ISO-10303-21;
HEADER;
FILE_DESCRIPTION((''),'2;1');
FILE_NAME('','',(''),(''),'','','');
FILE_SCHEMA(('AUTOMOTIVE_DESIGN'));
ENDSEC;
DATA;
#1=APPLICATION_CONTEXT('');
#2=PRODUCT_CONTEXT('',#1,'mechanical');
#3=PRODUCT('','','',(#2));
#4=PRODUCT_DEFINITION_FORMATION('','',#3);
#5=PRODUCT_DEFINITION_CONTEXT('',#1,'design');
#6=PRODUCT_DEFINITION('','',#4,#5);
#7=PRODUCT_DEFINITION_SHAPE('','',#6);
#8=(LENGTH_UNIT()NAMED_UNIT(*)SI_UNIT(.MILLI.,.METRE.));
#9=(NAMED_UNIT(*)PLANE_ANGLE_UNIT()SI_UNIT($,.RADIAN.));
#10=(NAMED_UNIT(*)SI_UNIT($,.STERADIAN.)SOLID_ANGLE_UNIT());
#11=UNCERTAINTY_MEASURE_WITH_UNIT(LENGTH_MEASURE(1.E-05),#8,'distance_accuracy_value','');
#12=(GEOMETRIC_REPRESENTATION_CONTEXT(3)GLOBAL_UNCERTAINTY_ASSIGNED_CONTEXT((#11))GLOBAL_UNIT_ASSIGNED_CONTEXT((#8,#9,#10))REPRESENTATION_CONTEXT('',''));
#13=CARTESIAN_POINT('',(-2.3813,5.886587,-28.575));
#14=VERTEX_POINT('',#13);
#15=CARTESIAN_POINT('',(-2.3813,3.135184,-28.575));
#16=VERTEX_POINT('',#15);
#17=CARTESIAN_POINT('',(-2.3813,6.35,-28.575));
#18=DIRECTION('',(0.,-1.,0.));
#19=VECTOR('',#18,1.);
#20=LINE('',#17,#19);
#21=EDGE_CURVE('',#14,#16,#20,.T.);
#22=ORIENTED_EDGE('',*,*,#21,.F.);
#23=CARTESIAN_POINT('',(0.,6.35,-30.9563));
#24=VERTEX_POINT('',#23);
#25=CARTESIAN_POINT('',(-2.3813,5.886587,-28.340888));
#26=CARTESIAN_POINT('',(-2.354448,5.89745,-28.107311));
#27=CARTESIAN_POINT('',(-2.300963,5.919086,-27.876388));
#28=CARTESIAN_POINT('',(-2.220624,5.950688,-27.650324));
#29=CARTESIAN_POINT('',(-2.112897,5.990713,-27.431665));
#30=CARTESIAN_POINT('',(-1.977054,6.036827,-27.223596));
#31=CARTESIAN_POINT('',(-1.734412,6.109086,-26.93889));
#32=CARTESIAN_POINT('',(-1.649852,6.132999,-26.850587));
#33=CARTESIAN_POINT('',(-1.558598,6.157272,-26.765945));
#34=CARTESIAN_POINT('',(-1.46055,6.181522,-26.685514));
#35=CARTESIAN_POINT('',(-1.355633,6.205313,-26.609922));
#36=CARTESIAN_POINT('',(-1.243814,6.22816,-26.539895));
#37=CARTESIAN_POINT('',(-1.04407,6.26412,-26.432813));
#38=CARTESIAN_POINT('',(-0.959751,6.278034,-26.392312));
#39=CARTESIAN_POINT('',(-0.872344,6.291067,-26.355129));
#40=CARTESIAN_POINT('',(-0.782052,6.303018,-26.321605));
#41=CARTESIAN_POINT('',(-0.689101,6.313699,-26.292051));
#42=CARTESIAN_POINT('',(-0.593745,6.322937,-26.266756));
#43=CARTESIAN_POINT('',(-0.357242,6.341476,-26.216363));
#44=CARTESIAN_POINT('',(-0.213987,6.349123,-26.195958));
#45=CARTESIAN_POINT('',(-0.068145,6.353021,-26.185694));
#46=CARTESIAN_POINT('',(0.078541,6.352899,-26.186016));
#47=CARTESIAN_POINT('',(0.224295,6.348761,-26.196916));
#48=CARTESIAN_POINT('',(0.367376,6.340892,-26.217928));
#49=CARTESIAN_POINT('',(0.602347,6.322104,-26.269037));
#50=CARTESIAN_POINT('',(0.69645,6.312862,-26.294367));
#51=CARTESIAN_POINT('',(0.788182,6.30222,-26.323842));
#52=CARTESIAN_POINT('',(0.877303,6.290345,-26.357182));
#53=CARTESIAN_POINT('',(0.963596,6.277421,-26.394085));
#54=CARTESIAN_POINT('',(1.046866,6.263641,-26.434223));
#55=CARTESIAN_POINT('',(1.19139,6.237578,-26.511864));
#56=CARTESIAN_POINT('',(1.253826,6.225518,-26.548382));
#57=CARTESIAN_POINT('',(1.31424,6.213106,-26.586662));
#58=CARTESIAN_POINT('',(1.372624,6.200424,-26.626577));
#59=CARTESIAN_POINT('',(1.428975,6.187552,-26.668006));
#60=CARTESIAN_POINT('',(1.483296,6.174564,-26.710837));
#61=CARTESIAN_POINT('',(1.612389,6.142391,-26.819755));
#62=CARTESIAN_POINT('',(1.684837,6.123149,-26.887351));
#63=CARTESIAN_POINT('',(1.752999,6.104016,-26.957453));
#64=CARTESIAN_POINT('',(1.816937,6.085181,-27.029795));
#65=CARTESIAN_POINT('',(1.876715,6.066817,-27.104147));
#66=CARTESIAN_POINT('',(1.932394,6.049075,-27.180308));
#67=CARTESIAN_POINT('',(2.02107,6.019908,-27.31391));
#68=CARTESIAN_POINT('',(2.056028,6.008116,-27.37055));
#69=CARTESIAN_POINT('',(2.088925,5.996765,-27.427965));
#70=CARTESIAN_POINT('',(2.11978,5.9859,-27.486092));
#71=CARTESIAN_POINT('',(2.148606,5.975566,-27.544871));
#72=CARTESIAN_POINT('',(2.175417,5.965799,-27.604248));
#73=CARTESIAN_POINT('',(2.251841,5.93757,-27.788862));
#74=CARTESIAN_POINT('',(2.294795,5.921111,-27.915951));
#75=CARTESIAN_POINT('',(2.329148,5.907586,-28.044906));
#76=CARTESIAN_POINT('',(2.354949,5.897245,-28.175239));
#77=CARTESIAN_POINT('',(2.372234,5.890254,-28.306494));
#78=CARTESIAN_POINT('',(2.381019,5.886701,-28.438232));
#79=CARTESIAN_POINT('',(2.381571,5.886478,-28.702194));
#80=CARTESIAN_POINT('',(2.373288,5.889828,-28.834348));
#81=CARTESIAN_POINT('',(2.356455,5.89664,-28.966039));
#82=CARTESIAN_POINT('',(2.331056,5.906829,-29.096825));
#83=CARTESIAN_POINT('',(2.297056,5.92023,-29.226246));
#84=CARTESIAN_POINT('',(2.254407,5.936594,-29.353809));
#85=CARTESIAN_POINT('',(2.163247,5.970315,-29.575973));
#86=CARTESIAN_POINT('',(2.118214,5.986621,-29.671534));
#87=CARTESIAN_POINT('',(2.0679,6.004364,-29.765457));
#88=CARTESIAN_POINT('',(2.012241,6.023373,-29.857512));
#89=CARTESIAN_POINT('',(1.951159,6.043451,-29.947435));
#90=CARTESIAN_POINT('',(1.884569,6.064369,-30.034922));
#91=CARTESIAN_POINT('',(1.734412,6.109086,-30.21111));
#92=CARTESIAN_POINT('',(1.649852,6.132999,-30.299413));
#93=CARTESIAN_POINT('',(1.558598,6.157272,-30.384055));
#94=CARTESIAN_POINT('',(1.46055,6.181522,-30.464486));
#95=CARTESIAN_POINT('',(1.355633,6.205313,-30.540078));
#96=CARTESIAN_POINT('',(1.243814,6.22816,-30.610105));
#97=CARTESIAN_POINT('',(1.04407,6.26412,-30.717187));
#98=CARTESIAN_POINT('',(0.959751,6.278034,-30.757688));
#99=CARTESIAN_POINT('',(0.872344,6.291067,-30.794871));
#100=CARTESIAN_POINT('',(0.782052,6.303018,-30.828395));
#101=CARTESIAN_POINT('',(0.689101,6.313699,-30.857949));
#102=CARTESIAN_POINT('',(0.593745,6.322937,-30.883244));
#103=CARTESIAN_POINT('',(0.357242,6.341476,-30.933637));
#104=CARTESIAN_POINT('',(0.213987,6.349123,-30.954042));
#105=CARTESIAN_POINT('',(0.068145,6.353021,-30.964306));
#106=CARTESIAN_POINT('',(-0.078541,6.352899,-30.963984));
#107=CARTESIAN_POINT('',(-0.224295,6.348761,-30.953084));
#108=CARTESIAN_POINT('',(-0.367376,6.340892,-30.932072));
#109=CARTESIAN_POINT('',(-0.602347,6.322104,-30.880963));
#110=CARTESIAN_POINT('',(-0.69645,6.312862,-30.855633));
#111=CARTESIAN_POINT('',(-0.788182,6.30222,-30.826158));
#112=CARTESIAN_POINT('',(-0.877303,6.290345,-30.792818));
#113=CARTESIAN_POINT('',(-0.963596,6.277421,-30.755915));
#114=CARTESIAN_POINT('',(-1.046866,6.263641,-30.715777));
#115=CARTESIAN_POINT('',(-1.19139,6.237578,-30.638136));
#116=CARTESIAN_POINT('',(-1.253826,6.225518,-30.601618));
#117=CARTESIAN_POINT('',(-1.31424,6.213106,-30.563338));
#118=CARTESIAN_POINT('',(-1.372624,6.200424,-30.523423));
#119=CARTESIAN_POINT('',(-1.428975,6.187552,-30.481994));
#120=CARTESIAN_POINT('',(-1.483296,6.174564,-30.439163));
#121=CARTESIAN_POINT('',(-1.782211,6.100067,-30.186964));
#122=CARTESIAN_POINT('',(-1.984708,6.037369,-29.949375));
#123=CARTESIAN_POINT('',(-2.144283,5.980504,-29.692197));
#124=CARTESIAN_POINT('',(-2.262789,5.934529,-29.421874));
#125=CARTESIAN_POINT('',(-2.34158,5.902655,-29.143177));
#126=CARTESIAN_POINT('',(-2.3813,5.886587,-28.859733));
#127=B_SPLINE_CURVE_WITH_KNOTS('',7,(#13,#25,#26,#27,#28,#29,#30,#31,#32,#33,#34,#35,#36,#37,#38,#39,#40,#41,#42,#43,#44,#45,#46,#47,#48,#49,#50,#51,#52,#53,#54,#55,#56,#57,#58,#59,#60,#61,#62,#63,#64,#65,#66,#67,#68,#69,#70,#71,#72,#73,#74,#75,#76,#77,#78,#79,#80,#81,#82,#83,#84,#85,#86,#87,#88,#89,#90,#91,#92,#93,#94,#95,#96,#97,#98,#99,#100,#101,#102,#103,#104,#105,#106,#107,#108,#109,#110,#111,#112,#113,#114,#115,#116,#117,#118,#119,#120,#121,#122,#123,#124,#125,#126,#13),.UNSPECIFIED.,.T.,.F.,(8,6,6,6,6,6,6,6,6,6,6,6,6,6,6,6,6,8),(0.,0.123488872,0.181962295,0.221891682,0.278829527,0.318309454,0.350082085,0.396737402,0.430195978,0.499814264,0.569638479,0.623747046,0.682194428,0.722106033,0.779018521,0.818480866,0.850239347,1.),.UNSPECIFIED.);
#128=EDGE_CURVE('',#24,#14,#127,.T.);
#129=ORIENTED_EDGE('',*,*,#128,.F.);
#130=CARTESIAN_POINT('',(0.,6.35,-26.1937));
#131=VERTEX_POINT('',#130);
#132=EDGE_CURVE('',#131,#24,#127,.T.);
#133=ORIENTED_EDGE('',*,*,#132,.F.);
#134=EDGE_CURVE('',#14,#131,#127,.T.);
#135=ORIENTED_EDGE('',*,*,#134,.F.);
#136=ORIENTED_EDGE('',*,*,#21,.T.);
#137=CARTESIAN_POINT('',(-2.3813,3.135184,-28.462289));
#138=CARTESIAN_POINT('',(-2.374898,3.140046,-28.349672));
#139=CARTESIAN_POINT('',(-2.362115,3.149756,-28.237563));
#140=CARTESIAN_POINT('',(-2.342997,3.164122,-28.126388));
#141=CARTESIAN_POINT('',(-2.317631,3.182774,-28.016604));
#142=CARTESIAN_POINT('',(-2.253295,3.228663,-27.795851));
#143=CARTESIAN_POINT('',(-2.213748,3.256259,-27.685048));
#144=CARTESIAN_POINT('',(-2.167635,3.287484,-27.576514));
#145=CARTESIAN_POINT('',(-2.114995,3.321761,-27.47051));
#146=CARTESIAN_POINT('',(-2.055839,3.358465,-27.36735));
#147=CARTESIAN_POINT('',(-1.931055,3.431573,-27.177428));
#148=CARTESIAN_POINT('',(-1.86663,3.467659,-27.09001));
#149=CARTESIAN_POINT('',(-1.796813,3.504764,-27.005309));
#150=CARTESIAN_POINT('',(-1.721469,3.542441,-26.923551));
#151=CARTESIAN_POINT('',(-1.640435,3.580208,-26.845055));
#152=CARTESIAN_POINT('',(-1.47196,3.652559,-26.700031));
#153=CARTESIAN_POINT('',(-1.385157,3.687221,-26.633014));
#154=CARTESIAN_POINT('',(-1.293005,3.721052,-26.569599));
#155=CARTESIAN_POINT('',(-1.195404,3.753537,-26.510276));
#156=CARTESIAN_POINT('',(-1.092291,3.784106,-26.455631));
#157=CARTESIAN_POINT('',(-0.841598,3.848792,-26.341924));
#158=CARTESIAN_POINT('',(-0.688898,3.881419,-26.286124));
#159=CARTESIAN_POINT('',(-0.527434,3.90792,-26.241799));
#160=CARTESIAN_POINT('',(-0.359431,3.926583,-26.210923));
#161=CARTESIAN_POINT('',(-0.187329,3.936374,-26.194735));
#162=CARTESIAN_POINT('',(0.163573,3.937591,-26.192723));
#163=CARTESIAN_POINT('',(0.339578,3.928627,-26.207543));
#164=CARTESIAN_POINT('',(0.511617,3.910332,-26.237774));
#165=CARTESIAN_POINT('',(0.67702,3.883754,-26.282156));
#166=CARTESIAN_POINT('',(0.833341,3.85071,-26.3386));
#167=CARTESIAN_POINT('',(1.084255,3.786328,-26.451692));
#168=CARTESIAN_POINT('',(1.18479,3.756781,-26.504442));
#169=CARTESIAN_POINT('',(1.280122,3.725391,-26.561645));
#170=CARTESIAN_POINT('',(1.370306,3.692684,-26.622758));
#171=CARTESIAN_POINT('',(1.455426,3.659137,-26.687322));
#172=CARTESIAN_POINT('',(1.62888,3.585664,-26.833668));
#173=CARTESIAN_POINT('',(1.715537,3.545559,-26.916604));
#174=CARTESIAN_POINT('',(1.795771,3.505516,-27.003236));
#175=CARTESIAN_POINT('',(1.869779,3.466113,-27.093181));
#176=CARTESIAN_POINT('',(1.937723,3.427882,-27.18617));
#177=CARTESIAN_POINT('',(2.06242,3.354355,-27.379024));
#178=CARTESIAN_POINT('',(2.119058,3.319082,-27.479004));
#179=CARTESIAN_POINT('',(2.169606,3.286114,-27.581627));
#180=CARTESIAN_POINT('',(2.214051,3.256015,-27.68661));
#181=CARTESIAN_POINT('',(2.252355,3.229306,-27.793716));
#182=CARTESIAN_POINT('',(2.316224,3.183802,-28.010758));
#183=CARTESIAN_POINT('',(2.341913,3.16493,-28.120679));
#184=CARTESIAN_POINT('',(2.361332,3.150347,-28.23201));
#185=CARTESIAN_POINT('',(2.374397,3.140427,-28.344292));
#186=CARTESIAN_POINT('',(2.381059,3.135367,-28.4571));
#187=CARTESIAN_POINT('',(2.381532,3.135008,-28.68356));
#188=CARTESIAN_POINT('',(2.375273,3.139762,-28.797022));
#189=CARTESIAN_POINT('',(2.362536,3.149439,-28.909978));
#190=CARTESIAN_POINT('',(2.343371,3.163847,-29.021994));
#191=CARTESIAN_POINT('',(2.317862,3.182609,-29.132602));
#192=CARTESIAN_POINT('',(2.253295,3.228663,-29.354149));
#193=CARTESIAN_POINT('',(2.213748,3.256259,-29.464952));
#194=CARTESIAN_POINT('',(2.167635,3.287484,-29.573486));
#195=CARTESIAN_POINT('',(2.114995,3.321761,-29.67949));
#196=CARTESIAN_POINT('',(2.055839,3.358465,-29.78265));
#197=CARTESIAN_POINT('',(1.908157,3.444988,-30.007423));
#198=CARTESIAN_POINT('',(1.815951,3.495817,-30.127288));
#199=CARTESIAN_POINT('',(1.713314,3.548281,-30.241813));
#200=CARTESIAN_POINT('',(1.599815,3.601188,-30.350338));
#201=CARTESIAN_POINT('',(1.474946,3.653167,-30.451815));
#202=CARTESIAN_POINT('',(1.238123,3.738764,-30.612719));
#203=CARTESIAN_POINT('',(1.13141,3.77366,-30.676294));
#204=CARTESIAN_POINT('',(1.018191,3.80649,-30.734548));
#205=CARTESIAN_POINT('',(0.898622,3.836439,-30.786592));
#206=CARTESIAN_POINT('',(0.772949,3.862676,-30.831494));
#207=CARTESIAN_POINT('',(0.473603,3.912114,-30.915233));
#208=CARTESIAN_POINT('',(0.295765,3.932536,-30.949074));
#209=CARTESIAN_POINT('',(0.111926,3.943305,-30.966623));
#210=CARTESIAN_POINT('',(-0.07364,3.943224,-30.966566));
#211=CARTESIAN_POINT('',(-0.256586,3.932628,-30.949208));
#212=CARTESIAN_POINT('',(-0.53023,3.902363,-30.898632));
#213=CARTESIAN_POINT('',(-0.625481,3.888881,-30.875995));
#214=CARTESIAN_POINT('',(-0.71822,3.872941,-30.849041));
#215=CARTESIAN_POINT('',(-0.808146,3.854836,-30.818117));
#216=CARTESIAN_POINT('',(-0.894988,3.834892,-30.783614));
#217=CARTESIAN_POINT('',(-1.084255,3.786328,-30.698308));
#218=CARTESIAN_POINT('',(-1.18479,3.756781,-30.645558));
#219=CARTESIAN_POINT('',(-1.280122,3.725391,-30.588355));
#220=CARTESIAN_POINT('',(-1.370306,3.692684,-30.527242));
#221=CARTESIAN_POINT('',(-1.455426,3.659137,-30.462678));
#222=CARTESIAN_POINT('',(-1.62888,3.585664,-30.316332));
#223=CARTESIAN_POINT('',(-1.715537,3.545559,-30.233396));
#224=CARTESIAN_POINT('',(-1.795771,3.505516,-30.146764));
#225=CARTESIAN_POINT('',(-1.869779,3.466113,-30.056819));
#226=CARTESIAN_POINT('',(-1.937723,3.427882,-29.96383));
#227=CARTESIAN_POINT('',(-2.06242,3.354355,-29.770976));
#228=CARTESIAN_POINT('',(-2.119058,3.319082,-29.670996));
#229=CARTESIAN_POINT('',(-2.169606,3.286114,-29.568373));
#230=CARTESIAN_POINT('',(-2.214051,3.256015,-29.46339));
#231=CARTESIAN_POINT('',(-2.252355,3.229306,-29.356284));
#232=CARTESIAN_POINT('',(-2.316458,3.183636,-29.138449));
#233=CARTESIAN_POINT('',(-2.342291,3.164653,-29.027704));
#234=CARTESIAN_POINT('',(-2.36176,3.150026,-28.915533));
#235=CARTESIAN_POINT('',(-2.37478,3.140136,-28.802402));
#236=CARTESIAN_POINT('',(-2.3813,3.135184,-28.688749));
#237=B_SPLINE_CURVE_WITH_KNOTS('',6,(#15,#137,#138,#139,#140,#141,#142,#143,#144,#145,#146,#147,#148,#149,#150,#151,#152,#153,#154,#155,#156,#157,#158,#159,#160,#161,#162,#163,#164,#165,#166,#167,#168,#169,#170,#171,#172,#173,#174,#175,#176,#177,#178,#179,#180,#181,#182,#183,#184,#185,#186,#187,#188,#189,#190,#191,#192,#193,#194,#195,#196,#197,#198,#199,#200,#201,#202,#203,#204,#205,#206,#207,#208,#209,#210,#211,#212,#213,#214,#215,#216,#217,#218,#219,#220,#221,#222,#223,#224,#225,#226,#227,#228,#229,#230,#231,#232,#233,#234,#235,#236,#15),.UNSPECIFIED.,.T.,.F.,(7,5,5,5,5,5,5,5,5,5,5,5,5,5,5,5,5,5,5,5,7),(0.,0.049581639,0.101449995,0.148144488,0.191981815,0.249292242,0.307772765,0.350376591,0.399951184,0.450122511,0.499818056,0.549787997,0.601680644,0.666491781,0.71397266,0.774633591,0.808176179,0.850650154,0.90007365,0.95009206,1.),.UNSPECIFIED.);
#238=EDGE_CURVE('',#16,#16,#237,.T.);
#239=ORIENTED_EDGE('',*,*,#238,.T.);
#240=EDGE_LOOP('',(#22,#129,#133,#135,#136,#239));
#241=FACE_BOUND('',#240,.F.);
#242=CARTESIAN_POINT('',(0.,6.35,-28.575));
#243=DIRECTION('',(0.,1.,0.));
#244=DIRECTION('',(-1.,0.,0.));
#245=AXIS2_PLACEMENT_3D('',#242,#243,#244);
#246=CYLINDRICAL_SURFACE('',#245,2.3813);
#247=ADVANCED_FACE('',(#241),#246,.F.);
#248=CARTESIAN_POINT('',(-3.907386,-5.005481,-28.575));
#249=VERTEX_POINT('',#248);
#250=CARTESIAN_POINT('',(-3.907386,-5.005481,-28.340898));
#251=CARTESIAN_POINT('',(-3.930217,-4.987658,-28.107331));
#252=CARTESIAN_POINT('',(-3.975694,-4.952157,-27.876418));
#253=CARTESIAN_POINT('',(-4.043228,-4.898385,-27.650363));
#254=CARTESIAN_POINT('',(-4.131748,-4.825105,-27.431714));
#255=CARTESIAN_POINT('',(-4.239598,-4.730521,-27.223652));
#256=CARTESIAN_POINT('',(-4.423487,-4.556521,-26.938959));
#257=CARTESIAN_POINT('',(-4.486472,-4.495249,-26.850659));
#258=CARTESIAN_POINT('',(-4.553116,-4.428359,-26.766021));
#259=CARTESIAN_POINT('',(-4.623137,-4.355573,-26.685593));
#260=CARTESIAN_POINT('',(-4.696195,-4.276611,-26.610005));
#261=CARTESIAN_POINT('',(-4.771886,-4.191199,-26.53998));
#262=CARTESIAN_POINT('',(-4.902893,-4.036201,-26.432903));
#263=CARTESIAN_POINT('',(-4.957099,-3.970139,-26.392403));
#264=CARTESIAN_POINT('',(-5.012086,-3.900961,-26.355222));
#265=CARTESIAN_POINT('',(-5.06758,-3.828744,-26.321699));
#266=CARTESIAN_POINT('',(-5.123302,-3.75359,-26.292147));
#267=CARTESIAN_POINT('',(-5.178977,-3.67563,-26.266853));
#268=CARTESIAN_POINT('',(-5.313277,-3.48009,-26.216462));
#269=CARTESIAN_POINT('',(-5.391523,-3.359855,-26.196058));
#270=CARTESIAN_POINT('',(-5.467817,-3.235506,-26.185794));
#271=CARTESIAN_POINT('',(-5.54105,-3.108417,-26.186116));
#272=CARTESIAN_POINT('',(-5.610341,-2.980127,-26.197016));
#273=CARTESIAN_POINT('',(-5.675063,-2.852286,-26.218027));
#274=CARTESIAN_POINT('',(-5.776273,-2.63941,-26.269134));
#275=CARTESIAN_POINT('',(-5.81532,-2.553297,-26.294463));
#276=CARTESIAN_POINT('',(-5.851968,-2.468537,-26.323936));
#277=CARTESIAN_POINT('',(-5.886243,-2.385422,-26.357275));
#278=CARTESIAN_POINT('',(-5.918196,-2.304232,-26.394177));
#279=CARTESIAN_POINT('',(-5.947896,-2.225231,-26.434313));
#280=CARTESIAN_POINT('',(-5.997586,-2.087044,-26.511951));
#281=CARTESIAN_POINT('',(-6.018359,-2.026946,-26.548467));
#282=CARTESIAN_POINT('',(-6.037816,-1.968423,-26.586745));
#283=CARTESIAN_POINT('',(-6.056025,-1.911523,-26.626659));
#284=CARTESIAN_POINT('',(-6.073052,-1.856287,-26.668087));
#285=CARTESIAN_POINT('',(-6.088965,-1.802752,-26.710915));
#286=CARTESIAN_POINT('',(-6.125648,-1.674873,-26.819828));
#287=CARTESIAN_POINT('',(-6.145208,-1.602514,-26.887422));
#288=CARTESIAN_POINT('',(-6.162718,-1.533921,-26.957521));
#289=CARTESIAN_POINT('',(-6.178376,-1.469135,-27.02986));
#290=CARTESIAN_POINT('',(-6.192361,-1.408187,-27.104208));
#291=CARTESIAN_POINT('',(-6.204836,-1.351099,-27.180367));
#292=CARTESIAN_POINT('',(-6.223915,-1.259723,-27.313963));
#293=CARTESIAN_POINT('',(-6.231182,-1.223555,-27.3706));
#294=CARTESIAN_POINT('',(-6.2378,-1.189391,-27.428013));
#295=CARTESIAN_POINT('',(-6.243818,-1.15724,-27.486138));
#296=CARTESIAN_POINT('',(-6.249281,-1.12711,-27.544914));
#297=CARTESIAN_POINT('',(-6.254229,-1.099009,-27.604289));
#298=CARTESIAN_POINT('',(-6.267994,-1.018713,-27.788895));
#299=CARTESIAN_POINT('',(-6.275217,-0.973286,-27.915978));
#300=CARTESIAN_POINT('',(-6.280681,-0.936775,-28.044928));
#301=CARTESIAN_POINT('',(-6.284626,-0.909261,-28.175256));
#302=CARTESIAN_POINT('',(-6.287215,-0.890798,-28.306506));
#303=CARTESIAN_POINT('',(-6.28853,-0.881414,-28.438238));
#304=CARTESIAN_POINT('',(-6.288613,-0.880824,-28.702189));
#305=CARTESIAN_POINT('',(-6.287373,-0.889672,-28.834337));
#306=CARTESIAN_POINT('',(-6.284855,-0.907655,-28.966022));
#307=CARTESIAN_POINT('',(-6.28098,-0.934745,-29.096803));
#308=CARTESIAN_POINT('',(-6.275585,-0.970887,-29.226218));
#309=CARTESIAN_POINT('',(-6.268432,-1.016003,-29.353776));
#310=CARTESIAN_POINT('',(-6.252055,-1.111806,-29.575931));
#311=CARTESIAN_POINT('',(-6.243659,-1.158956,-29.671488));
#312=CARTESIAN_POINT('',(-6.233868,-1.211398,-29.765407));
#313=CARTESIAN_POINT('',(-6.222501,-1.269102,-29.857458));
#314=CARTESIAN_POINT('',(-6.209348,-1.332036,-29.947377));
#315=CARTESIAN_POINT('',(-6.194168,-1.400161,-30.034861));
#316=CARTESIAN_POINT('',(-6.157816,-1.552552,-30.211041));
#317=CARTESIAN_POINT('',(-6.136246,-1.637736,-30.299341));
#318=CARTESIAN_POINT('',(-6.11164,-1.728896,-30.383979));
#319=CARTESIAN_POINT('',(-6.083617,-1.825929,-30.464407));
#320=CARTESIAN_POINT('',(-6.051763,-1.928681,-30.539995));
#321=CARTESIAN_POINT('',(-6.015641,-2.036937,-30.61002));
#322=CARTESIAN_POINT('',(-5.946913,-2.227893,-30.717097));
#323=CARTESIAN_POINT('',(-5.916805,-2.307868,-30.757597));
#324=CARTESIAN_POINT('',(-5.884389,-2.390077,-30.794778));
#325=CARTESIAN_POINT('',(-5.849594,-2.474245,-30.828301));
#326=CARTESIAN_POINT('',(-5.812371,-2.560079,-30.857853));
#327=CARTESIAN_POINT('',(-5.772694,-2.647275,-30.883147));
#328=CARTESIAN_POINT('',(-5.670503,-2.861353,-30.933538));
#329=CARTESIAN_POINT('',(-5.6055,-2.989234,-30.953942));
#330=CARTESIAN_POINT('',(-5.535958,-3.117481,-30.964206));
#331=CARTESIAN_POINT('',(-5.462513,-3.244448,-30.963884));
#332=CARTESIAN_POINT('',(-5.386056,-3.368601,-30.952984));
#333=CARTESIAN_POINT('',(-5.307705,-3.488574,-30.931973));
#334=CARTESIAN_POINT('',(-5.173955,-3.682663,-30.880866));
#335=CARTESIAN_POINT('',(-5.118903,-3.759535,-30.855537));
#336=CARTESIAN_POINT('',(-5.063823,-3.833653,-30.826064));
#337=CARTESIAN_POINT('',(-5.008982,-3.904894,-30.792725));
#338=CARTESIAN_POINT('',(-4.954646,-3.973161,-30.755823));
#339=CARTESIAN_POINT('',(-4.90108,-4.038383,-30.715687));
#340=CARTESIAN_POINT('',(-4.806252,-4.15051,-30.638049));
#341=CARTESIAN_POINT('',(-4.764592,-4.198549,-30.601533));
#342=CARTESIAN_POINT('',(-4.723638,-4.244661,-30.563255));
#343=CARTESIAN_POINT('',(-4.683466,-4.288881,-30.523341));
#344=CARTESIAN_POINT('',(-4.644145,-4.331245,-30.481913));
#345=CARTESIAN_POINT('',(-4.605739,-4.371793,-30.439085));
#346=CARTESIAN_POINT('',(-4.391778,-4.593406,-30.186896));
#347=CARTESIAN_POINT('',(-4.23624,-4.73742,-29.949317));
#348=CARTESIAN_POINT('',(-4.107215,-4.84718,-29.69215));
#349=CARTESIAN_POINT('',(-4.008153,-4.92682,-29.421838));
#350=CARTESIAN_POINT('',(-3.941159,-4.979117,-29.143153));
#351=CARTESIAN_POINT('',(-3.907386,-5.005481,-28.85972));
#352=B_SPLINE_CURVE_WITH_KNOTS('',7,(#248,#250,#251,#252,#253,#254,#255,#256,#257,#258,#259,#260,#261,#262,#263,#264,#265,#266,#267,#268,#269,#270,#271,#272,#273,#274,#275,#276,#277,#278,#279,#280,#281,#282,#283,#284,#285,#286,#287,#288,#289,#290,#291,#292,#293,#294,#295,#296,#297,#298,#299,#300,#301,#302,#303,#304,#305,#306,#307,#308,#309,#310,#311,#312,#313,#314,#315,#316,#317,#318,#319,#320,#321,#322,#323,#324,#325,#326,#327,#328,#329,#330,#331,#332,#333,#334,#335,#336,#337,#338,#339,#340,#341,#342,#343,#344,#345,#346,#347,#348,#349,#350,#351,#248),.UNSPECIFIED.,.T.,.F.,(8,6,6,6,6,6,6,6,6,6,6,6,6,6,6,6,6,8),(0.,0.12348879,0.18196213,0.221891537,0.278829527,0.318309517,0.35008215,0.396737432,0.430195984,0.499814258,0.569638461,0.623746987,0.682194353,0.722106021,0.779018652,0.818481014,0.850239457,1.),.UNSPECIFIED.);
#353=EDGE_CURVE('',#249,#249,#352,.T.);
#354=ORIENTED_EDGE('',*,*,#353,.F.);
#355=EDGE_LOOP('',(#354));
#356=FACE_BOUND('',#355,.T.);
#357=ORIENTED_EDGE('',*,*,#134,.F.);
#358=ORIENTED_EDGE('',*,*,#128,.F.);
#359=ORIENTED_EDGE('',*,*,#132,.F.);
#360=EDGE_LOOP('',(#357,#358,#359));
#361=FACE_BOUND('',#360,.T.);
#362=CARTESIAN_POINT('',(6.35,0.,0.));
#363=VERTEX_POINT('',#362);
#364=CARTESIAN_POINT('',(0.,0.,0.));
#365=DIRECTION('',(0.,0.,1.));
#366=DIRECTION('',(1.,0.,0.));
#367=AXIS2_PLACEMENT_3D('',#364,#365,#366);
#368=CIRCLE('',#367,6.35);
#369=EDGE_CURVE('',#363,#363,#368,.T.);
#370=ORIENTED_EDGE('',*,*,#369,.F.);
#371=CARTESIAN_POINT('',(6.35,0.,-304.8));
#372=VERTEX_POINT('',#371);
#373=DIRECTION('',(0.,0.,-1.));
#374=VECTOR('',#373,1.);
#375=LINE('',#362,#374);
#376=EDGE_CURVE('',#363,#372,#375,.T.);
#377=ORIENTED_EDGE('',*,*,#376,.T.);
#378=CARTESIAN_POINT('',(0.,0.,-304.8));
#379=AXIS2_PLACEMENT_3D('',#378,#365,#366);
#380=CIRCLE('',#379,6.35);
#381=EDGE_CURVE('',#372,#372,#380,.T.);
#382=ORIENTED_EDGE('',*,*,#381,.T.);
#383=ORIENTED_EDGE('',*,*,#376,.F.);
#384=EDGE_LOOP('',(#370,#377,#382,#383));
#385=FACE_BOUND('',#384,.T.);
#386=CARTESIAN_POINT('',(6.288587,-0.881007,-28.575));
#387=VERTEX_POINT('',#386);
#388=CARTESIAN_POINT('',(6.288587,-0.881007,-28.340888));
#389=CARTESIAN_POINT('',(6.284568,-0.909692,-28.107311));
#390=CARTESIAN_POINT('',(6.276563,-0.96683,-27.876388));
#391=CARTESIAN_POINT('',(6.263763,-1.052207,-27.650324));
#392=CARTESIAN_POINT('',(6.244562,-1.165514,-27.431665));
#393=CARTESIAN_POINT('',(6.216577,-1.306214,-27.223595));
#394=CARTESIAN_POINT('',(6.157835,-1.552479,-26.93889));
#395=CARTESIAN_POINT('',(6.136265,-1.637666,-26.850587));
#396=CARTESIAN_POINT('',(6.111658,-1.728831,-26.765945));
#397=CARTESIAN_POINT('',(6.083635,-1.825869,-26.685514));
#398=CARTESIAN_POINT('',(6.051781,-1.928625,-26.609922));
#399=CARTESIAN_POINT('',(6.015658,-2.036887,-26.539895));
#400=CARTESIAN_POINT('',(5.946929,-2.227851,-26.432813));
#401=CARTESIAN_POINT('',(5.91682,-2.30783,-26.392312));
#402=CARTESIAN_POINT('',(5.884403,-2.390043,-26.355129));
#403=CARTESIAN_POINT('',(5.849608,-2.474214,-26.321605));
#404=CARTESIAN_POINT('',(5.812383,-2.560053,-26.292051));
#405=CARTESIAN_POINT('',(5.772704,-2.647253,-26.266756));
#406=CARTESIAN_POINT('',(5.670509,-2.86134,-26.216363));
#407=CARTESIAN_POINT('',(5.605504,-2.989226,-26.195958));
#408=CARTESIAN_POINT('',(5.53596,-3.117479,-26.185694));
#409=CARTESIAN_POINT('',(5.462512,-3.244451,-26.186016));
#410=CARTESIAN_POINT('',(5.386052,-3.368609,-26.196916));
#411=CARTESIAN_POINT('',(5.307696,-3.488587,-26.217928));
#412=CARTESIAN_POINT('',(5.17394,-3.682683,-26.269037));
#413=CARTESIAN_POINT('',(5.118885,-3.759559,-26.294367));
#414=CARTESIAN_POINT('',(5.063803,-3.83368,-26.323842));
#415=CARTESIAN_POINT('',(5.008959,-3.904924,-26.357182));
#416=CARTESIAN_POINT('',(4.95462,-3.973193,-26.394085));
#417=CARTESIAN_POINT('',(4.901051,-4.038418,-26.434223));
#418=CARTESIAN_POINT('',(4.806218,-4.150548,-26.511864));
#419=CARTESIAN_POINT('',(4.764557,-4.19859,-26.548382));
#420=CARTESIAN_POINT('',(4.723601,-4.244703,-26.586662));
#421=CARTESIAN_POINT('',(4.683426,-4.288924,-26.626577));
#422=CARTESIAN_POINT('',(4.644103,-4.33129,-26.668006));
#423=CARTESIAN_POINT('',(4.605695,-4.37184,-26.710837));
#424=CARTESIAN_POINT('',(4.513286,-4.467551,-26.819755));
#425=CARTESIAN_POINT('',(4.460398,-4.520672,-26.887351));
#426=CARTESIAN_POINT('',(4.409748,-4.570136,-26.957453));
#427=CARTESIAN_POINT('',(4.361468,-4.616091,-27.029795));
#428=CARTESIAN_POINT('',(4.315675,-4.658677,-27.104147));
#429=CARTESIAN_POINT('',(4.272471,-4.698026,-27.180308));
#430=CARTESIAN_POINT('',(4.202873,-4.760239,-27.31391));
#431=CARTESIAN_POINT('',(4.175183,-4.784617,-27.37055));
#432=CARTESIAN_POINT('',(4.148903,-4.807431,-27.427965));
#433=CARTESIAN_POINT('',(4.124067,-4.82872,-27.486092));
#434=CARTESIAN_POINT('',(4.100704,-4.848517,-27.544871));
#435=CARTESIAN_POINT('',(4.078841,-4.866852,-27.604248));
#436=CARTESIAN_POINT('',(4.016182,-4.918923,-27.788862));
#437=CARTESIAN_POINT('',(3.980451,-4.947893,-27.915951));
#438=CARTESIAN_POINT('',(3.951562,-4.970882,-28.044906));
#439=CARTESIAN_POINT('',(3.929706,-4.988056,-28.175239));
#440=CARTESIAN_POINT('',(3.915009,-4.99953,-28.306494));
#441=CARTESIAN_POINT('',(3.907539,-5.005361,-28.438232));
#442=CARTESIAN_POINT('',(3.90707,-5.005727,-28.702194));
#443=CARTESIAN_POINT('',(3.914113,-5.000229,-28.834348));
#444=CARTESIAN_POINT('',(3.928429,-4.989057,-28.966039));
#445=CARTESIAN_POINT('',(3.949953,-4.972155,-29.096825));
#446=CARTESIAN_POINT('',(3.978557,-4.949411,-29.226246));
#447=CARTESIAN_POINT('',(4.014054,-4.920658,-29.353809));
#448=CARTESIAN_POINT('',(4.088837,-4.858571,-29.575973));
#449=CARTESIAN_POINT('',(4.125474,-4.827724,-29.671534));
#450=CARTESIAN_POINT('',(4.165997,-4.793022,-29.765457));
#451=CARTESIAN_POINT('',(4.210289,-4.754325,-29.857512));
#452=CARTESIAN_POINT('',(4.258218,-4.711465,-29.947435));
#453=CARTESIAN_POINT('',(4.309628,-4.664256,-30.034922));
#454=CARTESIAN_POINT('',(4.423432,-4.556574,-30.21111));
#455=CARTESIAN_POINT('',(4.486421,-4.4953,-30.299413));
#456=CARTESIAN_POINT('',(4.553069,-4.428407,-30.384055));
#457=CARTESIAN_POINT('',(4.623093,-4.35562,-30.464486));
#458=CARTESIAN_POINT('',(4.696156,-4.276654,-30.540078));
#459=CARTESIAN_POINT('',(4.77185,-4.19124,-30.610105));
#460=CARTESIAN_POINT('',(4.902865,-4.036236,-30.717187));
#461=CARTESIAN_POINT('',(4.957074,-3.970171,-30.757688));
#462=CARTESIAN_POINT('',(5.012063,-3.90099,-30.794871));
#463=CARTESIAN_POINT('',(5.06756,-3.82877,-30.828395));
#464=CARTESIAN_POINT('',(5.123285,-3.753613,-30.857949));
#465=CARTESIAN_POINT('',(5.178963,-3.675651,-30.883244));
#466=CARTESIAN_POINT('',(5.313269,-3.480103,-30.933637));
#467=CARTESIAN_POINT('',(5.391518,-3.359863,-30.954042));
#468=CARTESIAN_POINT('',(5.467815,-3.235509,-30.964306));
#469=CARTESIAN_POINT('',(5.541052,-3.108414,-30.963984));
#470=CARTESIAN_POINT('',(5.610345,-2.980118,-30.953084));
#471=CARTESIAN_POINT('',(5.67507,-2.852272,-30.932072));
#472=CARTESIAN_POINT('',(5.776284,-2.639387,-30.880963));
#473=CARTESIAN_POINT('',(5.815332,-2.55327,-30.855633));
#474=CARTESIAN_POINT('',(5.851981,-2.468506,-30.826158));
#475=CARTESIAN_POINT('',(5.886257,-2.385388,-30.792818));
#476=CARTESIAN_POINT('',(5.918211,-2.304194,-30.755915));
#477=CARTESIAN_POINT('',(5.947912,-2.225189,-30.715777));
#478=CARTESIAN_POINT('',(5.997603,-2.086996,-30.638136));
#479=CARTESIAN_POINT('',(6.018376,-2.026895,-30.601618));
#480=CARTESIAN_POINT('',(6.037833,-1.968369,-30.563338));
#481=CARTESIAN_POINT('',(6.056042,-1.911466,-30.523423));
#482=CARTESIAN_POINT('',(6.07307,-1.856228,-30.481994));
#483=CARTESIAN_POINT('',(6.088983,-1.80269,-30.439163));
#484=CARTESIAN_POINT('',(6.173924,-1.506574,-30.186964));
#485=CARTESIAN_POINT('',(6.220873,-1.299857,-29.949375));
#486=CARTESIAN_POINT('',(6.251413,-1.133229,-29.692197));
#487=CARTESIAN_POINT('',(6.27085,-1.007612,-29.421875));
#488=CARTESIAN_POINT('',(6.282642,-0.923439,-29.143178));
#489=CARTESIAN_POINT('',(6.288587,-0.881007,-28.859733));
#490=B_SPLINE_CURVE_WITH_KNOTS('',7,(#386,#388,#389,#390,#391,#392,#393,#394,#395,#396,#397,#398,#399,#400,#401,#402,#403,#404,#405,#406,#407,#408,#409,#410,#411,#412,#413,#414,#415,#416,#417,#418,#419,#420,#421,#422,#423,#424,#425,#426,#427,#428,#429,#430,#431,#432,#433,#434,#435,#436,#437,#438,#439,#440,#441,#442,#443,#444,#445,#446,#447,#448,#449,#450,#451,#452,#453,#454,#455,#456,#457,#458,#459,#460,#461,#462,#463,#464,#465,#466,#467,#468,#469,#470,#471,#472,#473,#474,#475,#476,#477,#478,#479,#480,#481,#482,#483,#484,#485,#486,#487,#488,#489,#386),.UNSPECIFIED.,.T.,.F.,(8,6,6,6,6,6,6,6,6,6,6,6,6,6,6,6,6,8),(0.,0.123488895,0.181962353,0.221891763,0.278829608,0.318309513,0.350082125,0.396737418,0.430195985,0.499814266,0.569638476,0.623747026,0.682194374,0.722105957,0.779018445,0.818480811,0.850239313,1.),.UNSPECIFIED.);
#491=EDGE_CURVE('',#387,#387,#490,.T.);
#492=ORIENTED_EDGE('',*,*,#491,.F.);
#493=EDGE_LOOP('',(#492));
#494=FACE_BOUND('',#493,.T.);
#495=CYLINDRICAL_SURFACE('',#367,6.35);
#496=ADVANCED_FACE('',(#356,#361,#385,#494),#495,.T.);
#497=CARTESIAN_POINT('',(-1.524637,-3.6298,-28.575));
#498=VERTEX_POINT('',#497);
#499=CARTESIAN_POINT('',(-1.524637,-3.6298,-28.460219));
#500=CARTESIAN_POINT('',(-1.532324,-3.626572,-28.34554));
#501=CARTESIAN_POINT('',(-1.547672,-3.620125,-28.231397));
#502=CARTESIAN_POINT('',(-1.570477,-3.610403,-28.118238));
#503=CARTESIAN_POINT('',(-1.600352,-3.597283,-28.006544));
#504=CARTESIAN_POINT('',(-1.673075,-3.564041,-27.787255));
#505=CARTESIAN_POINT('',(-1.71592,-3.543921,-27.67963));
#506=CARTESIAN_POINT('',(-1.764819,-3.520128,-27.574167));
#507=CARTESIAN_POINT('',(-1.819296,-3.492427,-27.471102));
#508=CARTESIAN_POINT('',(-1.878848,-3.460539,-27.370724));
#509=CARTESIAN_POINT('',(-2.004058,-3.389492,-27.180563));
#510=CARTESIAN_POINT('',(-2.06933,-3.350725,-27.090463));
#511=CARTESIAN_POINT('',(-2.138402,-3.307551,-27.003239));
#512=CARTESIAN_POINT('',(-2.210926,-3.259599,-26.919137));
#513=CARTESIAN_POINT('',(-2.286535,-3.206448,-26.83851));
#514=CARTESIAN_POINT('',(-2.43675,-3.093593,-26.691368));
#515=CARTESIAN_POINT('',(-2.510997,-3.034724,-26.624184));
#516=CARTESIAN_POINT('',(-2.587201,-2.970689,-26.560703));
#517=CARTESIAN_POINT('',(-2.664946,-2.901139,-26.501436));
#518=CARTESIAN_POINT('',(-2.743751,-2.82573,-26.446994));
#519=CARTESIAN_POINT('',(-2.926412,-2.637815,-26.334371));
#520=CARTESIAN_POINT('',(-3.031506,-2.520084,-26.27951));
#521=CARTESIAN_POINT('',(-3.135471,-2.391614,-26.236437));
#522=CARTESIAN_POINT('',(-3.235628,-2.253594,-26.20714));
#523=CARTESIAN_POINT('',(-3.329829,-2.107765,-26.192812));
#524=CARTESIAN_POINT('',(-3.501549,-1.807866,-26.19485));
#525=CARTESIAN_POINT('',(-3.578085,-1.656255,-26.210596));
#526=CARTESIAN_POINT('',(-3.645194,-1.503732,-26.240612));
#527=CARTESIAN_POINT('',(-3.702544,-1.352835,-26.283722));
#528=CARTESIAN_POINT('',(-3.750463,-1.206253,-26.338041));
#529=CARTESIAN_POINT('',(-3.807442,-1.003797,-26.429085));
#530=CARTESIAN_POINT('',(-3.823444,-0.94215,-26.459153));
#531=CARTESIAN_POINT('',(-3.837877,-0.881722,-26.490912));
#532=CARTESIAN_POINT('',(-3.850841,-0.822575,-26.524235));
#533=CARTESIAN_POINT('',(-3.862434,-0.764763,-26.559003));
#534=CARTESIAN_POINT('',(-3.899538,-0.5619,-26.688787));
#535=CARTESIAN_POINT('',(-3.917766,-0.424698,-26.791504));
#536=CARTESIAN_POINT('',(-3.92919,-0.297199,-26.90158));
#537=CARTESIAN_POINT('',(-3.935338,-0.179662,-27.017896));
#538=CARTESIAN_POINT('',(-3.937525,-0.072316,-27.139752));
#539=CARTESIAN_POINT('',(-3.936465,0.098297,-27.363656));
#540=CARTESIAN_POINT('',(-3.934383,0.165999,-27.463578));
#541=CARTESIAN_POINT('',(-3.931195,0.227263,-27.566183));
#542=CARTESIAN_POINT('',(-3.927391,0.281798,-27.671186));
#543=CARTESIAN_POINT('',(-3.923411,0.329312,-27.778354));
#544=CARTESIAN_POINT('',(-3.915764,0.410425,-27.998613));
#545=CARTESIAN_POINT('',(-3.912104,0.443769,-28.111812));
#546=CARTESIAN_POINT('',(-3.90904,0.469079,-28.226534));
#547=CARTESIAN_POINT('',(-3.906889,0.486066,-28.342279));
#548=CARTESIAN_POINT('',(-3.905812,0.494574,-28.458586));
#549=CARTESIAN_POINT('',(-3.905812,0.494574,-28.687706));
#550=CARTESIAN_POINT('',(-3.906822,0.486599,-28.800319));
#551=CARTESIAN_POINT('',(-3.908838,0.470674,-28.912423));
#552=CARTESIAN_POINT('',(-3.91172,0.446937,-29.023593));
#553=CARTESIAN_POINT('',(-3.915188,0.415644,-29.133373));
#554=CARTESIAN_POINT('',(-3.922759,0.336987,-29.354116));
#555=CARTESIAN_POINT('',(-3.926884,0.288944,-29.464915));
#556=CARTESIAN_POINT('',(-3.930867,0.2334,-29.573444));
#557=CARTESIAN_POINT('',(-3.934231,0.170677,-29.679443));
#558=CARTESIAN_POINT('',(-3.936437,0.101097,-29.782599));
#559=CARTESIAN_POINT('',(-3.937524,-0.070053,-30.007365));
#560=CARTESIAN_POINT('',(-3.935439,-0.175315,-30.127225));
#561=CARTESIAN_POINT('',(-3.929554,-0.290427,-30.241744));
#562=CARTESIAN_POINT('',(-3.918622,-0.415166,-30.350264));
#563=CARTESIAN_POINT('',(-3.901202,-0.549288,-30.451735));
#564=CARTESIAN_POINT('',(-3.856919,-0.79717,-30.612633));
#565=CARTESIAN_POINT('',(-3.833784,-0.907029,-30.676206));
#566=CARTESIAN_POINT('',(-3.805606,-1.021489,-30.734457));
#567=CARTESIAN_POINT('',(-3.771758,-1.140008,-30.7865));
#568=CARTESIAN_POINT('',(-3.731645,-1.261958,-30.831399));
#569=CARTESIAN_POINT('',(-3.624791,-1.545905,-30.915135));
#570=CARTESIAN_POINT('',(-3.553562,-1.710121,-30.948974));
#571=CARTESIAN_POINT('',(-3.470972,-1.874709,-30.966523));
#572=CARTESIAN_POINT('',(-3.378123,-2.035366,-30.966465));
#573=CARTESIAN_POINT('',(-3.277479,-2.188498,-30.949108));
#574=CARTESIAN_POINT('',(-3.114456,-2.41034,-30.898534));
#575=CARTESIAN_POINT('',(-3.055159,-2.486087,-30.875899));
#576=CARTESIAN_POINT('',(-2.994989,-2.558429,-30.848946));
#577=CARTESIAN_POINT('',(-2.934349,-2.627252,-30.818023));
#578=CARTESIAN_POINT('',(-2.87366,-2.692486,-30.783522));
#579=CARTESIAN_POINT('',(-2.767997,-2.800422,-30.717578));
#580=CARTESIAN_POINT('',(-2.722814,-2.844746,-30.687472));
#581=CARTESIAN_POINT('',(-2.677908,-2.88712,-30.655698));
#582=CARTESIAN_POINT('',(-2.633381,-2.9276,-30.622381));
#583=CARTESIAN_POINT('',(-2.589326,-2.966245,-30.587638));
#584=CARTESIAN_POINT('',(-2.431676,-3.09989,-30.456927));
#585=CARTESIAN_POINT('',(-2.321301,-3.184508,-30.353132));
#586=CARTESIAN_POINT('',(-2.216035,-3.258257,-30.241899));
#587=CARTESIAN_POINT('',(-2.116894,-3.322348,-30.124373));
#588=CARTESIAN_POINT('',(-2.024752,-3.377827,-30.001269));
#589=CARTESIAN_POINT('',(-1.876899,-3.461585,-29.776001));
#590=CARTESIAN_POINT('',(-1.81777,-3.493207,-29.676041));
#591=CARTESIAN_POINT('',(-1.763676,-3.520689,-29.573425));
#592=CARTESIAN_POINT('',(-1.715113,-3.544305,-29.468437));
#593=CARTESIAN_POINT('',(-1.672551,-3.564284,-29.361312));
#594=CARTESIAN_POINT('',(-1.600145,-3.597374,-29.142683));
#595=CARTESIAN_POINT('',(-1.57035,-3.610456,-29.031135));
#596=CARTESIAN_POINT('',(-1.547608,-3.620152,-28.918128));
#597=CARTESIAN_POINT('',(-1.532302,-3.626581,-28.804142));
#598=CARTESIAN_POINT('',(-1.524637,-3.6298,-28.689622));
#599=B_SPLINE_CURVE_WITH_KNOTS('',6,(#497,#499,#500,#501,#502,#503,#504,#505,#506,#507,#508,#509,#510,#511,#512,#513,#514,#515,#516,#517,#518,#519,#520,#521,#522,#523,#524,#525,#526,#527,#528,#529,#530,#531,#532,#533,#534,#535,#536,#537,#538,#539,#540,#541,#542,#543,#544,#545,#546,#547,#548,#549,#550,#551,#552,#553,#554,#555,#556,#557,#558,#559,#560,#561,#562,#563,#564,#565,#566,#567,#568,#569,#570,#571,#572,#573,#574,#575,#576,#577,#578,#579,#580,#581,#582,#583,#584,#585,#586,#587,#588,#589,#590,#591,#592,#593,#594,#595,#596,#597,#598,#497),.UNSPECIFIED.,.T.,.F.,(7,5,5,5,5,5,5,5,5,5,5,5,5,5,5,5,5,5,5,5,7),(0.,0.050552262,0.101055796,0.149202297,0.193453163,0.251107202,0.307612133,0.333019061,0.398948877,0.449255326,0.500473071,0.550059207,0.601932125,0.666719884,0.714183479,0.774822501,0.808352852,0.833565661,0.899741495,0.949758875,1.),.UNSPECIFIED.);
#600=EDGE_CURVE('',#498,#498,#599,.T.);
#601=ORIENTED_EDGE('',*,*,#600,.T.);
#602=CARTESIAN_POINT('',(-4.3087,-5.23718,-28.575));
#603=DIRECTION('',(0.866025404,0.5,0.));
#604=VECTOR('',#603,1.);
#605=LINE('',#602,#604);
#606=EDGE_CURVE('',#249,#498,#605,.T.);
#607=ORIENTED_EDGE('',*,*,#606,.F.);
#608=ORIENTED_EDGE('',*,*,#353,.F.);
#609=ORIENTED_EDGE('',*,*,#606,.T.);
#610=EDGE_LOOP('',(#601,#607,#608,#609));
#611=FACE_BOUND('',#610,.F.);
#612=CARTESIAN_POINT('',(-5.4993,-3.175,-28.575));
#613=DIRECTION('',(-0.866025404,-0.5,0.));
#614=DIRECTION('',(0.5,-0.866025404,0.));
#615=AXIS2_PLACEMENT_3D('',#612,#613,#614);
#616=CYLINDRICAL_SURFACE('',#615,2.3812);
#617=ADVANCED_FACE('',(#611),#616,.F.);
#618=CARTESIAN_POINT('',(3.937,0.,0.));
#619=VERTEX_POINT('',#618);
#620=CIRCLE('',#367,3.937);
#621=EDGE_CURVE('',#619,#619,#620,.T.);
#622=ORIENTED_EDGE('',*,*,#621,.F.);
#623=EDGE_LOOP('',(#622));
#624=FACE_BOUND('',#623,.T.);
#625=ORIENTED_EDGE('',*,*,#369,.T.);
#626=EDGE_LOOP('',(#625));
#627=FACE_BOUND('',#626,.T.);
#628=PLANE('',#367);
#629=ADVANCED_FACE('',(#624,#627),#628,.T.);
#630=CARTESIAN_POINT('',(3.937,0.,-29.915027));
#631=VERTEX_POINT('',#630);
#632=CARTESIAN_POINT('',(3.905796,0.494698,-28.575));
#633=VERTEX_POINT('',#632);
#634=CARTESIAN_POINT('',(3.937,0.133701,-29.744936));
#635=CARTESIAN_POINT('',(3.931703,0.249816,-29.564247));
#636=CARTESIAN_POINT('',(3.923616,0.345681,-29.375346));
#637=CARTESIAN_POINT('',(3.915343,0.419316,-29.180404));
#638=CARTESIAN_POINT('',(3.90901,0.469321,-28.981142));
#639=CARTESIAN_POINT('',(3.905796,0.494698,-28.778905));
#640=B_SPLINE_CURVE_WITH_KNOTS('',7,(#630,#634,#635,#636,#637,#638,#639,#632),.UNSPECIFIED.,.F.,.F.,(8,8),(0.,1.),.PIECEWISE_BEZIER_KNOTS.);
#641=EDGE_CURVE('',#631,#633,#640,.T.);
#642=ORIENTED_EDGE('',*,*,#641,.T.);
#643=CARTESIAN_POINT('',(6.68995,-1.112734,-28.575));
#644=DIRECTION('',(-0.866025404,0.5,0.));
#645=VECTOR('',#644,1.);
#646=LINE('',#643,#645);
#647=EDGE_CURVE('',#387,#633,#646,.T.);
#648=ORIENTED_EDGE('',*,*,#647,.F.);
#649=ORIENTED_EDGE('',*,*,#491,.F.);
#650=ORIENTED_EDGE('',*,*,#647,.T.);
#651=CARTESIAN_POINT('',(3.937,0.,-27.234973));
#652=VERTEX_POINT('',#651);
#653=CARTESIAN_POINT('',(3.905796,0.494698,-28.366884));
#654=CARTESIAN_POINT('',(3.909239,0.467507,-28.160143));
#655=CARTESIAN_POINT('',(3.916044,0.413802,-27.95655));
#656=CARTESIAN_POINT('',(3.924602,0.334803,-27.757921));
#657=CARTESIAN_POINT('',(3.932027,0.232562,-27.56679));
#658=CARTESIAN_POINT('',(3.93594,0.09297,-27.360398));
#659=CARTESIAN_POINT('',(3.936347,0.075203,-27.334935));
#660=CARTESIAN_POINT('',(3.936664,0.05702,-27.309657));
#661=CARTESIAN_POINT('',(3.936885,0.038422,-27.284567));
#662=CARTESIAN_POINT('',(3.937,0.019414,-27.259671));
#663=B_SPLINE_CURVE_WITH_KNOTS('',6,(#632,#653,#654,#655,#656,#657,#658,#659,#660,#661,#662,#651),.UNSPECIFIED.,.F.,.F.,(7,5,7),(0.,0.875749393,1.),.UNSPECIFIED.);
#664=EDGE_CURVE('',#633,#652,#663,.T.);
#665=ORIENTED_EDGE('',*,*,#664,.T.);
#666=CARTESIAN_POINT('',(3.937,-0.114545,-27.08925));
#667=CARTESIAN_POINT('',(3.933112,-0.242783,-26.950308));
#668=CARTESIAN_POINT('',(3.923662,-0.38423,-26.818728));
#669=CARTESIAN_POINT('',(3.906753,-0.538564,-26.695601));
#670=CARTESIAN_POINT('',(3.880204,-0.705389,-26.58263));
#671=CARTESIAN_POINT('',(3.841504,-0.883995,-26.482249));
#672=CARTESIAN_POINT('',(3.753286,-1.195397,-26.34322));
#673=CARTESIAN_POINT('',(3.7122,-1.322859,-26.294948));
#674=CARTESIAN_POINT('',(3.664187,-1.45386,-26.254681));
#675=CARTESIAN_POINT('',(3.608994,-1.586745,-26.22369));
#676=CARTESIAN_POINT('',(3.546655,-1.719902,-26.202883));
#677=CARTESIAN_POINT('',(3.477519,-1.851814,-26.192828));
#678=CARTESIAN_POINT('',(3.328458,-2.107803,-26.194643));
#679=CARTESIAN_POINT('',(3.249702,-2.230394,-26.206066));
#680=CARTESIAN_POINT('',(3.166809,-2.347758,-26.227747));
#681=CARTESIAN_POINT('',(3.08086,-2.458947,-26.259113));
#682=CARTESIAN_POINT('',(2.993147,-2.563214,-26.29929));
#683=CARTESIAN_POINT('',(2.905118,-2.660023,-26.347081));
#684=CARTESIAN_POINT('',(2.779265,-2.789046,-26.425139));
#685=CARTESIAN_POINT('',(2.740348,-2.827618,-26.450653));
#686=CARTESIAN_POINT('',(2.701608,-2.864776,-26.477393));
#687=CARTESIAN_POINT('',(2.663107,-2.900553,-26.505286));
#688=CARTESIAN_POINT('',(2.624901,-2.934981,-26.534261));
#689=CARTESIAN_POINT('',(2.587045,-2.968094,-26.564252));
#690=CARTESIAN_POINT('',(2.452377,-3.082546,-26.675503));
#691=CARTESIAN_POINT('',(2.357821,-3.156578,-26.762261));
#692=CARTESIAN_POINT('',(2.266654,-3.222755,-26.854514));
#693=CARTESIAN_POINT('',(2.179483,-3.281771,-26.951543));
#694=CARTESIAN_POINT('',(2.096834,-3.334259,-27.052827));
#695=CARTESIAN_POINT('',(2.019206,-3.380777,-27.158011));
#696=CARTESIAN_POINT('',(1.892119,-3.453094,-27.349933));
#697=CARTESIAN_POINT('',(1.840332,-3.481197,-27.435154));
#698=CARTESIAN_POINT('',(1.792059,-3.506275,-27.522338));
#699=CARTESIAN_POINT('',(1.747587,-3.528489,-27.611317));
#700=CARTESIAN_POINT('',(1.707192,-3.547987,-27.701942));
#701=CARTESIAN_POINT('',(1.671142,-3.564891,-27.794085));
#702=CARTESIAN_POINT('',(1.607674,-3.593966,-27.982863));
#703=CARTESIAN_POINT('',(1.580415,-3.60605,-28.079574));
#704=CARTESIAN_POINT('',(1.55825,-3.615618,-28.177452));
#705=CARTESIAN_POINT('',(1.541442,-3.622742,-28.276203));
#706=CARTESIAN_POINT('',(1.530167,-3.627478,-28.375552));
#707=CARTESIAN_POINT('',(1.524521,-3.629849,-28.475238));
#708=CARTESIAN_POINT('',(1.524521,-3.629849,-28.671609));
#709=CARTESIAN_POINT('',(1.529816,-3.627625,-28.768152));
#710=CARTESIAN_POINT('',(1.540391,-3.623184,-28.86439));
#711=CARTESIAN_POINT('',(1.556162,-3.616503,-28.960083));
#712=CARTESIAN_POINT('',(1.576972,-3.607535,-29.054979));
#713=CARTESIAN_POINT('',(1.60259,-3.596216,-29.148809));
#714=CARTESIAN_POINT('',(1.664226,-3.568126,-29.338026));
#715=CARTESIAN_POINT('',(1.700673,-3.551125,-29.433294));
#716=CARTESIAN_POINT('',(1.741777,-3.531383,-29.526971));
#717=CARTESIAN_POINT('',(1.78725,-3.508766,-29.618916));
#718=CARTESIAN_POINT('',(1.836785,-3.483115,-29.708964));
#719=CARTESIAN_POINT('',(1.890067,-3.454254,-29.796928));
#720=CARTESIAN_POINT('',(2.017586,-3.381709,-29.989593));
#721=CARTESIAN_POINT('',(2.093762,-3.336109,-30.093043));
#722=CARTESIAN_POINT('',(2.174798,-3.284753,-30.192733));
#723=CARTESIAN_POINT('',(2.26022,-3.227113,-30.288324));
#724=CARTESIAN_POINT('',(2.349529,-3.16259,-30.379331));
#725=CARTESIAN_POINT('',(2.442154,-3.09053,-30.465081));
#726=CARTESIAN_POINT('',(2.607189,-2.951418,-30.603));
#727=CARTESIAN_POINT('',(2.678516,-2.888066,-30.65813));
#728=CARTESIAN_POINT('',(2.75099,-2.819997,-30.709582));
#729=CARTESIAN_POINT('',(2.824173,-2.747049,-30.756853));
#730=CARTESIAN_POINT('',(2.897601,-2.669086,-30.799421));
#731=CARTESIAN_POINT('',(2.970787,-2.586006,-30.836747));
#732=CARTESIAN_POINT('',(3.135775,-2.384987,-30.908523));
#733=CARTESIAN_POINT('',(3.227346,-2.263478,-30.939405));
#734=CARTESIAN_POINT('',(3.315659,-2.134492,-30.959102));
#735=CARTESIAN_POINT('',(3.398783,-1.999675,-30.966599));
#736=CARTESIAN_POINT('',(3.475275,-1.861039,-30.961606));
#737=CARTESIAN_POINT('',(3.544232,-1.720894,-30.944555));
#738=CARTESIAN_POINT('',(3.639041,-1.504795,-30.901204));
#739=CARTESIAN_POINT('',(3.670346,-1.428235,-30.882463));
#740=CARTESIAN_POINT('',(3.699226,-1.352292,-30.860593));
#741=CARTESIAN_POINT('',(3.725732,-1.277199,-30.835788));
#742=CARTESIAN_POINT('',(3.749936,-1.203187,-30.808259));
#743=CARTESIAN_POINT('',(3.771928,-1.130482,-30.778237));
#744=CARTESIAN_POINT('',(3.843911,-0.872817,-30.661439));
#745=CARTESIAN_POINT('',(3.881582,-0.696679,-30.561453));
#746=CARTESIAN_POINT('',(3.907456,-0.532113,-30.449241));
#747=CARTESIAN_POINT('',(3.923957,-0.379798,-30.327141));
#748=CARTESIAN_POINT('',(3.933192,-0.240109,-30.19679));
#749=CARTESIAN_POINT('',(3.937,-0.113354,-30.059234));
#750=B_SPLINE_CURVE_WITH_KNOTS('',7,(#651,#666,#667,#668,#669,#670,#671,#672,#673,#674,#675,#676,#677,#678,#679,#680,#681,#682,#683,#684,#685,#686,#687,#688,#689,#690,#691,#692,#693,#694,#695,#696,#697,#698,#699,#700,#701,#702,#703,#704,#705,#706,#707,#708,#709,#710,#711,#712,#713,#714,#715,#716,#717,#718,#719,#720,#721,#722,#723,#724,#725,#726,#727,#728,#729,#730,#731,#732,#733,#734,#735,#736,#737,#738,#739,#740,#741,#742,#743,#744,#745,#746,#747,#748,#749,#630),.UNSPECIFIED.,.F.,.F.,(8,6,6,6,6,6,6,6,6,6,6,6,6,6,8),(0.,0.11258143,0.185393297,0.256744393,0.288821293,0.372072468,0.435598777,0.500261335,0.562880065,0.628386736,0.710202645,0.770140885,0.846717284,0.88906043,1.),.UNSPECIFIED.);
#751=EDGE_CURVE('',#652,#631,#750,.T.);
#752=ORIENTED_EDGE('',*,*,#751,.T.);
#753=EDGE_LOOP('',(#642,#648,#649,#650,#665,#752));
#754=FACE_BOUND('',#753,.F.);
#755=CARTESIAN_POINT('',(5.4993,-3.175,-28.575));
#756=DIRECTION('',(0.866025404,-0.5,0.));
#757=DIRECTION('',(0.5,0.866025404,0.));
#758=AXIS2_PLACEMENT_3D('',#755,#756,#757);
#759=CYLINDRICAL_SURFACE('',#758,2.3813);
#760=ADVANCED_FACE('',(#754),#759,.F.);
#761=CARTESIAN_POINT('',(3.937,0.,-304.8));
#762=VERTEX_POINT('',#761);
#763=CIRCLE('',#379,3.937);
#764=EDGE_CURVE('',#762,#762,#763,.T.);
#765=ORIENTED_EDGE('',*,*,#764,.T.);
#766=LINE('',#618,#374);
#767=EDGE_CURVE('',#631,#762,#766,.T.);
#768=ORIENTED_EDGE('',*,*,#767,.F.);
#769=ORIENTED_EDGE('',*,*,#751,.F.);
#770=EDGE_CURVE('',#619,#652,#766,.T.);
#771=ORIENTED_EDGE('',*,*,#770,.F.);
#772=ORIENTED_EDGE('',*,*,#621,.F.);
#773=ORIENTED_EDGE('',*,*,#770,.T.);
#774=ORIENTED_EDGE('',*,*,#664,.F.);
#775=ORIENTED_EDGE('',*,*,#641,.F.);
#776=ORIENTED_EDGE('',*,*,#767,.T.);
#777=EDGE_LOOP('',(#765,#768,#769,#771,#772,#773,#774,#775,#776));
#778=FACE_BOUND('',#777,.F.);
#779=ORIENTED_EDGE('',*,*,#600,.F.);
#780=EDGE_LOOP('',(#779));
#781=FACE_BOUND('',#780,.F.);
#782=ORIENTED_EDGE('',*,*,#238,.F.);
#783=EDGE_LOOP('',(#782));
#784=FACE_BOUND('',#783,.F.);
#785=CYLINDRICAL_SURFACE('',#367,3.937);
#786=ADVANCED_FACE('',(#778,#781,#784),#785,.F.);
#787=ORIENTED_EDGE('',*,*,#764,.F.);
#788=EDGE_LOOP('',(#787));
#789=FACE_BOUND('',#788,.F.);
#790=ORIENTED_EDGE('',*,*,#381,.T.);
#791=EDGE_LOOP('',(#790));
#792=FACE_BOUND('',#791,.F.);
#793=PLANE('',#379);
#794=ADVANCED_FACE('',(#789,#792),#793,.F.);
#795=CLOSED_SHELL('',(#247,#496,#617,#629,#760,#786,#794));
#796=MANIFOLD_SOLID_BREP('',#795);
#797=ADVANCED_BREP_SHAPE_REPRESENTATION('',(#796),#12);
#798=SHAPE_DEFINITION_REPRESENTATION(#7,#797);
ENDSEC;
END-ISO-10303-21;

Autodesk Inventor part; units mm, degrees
sketch "Sketch1" plane through (0, 0, 0) normal (0, 0, 1) x (1, 0, 0)
  circle A0 centre (0, 0) radius 6.35
  circle A1 centre (0, 0) radius 3.937
  dimension "d0" = 12.7
  dimension "d1" = 2.413
extrude "Extrusion1" add sketch "Sketch1" against normal blind 304.8
ref_plane "Work Plane1" through (0, 0, -28.575) normal (0, 0, 1) x (1, 0, 0)
sketch "Sketch2" plane through (0, 0, -28.575) normal (0, 0, 1) x (1, 0, 0)
  circle A0 centre (0, 0) radius 6.35 projected
  line L0 (0, 0) -> (5.4993, -3.175) construction
  line L1 (0, 0) -> (0, 6.35) construction
  line L2 (0, 0) -> (-5.4993, -3.175) construction
  dimension "d6" = 120
  dimension "d7" = 120
ref_plane "Work Plane2" through (0, 6.35, -28.575) normal (0, 1, 0) x (-1, 0, 0)
sketch "Sketch3" plane through (0, 6.35, -28.575) normal (0, 1, 0) x (-1, 0, 0)
  circle A0 centre (0, 0) radius 2.3813
  dimension "d8" = 4.7625
extrude "Extrusion2" cut sketch "Sketch3" against normal up to next
ref_plane "Work Plane3" through (5.4993, -3.175, -28.575) normal (0.866, -0.5, 0) x (0.5, 0.866, 0)
sketch "Sketch4" plane through (5.4993, -3.175, -28.575) normal (0.866, -0.5, 0) x (0.5, 0.866, 0)
  circle A0 centre (0, 0) radius 2.3813
  dimension "d11" = 4.7625
extrude "Extrusion3" cut sketch "Sketch4" against normal up to next
ref_plane "Work Plane4" through (-5.4993, -3.175, -28.575) normal (-0.866, -0.5, 0) x (0.5, -0.866, 0)
sketch "Sketch5" plane through (-5.4993, -3.175, -28.575) normal (-0.866, -0.5, 0) x (0.5, -0.866, 0)
  circle A0 centre (0, 0) radius 2.3812
  dimension "d14" = 4.7625
extrude "Extrusion4" cut sketch "Sketch5" against normal up to next
properties part number "transmission tube v1"
